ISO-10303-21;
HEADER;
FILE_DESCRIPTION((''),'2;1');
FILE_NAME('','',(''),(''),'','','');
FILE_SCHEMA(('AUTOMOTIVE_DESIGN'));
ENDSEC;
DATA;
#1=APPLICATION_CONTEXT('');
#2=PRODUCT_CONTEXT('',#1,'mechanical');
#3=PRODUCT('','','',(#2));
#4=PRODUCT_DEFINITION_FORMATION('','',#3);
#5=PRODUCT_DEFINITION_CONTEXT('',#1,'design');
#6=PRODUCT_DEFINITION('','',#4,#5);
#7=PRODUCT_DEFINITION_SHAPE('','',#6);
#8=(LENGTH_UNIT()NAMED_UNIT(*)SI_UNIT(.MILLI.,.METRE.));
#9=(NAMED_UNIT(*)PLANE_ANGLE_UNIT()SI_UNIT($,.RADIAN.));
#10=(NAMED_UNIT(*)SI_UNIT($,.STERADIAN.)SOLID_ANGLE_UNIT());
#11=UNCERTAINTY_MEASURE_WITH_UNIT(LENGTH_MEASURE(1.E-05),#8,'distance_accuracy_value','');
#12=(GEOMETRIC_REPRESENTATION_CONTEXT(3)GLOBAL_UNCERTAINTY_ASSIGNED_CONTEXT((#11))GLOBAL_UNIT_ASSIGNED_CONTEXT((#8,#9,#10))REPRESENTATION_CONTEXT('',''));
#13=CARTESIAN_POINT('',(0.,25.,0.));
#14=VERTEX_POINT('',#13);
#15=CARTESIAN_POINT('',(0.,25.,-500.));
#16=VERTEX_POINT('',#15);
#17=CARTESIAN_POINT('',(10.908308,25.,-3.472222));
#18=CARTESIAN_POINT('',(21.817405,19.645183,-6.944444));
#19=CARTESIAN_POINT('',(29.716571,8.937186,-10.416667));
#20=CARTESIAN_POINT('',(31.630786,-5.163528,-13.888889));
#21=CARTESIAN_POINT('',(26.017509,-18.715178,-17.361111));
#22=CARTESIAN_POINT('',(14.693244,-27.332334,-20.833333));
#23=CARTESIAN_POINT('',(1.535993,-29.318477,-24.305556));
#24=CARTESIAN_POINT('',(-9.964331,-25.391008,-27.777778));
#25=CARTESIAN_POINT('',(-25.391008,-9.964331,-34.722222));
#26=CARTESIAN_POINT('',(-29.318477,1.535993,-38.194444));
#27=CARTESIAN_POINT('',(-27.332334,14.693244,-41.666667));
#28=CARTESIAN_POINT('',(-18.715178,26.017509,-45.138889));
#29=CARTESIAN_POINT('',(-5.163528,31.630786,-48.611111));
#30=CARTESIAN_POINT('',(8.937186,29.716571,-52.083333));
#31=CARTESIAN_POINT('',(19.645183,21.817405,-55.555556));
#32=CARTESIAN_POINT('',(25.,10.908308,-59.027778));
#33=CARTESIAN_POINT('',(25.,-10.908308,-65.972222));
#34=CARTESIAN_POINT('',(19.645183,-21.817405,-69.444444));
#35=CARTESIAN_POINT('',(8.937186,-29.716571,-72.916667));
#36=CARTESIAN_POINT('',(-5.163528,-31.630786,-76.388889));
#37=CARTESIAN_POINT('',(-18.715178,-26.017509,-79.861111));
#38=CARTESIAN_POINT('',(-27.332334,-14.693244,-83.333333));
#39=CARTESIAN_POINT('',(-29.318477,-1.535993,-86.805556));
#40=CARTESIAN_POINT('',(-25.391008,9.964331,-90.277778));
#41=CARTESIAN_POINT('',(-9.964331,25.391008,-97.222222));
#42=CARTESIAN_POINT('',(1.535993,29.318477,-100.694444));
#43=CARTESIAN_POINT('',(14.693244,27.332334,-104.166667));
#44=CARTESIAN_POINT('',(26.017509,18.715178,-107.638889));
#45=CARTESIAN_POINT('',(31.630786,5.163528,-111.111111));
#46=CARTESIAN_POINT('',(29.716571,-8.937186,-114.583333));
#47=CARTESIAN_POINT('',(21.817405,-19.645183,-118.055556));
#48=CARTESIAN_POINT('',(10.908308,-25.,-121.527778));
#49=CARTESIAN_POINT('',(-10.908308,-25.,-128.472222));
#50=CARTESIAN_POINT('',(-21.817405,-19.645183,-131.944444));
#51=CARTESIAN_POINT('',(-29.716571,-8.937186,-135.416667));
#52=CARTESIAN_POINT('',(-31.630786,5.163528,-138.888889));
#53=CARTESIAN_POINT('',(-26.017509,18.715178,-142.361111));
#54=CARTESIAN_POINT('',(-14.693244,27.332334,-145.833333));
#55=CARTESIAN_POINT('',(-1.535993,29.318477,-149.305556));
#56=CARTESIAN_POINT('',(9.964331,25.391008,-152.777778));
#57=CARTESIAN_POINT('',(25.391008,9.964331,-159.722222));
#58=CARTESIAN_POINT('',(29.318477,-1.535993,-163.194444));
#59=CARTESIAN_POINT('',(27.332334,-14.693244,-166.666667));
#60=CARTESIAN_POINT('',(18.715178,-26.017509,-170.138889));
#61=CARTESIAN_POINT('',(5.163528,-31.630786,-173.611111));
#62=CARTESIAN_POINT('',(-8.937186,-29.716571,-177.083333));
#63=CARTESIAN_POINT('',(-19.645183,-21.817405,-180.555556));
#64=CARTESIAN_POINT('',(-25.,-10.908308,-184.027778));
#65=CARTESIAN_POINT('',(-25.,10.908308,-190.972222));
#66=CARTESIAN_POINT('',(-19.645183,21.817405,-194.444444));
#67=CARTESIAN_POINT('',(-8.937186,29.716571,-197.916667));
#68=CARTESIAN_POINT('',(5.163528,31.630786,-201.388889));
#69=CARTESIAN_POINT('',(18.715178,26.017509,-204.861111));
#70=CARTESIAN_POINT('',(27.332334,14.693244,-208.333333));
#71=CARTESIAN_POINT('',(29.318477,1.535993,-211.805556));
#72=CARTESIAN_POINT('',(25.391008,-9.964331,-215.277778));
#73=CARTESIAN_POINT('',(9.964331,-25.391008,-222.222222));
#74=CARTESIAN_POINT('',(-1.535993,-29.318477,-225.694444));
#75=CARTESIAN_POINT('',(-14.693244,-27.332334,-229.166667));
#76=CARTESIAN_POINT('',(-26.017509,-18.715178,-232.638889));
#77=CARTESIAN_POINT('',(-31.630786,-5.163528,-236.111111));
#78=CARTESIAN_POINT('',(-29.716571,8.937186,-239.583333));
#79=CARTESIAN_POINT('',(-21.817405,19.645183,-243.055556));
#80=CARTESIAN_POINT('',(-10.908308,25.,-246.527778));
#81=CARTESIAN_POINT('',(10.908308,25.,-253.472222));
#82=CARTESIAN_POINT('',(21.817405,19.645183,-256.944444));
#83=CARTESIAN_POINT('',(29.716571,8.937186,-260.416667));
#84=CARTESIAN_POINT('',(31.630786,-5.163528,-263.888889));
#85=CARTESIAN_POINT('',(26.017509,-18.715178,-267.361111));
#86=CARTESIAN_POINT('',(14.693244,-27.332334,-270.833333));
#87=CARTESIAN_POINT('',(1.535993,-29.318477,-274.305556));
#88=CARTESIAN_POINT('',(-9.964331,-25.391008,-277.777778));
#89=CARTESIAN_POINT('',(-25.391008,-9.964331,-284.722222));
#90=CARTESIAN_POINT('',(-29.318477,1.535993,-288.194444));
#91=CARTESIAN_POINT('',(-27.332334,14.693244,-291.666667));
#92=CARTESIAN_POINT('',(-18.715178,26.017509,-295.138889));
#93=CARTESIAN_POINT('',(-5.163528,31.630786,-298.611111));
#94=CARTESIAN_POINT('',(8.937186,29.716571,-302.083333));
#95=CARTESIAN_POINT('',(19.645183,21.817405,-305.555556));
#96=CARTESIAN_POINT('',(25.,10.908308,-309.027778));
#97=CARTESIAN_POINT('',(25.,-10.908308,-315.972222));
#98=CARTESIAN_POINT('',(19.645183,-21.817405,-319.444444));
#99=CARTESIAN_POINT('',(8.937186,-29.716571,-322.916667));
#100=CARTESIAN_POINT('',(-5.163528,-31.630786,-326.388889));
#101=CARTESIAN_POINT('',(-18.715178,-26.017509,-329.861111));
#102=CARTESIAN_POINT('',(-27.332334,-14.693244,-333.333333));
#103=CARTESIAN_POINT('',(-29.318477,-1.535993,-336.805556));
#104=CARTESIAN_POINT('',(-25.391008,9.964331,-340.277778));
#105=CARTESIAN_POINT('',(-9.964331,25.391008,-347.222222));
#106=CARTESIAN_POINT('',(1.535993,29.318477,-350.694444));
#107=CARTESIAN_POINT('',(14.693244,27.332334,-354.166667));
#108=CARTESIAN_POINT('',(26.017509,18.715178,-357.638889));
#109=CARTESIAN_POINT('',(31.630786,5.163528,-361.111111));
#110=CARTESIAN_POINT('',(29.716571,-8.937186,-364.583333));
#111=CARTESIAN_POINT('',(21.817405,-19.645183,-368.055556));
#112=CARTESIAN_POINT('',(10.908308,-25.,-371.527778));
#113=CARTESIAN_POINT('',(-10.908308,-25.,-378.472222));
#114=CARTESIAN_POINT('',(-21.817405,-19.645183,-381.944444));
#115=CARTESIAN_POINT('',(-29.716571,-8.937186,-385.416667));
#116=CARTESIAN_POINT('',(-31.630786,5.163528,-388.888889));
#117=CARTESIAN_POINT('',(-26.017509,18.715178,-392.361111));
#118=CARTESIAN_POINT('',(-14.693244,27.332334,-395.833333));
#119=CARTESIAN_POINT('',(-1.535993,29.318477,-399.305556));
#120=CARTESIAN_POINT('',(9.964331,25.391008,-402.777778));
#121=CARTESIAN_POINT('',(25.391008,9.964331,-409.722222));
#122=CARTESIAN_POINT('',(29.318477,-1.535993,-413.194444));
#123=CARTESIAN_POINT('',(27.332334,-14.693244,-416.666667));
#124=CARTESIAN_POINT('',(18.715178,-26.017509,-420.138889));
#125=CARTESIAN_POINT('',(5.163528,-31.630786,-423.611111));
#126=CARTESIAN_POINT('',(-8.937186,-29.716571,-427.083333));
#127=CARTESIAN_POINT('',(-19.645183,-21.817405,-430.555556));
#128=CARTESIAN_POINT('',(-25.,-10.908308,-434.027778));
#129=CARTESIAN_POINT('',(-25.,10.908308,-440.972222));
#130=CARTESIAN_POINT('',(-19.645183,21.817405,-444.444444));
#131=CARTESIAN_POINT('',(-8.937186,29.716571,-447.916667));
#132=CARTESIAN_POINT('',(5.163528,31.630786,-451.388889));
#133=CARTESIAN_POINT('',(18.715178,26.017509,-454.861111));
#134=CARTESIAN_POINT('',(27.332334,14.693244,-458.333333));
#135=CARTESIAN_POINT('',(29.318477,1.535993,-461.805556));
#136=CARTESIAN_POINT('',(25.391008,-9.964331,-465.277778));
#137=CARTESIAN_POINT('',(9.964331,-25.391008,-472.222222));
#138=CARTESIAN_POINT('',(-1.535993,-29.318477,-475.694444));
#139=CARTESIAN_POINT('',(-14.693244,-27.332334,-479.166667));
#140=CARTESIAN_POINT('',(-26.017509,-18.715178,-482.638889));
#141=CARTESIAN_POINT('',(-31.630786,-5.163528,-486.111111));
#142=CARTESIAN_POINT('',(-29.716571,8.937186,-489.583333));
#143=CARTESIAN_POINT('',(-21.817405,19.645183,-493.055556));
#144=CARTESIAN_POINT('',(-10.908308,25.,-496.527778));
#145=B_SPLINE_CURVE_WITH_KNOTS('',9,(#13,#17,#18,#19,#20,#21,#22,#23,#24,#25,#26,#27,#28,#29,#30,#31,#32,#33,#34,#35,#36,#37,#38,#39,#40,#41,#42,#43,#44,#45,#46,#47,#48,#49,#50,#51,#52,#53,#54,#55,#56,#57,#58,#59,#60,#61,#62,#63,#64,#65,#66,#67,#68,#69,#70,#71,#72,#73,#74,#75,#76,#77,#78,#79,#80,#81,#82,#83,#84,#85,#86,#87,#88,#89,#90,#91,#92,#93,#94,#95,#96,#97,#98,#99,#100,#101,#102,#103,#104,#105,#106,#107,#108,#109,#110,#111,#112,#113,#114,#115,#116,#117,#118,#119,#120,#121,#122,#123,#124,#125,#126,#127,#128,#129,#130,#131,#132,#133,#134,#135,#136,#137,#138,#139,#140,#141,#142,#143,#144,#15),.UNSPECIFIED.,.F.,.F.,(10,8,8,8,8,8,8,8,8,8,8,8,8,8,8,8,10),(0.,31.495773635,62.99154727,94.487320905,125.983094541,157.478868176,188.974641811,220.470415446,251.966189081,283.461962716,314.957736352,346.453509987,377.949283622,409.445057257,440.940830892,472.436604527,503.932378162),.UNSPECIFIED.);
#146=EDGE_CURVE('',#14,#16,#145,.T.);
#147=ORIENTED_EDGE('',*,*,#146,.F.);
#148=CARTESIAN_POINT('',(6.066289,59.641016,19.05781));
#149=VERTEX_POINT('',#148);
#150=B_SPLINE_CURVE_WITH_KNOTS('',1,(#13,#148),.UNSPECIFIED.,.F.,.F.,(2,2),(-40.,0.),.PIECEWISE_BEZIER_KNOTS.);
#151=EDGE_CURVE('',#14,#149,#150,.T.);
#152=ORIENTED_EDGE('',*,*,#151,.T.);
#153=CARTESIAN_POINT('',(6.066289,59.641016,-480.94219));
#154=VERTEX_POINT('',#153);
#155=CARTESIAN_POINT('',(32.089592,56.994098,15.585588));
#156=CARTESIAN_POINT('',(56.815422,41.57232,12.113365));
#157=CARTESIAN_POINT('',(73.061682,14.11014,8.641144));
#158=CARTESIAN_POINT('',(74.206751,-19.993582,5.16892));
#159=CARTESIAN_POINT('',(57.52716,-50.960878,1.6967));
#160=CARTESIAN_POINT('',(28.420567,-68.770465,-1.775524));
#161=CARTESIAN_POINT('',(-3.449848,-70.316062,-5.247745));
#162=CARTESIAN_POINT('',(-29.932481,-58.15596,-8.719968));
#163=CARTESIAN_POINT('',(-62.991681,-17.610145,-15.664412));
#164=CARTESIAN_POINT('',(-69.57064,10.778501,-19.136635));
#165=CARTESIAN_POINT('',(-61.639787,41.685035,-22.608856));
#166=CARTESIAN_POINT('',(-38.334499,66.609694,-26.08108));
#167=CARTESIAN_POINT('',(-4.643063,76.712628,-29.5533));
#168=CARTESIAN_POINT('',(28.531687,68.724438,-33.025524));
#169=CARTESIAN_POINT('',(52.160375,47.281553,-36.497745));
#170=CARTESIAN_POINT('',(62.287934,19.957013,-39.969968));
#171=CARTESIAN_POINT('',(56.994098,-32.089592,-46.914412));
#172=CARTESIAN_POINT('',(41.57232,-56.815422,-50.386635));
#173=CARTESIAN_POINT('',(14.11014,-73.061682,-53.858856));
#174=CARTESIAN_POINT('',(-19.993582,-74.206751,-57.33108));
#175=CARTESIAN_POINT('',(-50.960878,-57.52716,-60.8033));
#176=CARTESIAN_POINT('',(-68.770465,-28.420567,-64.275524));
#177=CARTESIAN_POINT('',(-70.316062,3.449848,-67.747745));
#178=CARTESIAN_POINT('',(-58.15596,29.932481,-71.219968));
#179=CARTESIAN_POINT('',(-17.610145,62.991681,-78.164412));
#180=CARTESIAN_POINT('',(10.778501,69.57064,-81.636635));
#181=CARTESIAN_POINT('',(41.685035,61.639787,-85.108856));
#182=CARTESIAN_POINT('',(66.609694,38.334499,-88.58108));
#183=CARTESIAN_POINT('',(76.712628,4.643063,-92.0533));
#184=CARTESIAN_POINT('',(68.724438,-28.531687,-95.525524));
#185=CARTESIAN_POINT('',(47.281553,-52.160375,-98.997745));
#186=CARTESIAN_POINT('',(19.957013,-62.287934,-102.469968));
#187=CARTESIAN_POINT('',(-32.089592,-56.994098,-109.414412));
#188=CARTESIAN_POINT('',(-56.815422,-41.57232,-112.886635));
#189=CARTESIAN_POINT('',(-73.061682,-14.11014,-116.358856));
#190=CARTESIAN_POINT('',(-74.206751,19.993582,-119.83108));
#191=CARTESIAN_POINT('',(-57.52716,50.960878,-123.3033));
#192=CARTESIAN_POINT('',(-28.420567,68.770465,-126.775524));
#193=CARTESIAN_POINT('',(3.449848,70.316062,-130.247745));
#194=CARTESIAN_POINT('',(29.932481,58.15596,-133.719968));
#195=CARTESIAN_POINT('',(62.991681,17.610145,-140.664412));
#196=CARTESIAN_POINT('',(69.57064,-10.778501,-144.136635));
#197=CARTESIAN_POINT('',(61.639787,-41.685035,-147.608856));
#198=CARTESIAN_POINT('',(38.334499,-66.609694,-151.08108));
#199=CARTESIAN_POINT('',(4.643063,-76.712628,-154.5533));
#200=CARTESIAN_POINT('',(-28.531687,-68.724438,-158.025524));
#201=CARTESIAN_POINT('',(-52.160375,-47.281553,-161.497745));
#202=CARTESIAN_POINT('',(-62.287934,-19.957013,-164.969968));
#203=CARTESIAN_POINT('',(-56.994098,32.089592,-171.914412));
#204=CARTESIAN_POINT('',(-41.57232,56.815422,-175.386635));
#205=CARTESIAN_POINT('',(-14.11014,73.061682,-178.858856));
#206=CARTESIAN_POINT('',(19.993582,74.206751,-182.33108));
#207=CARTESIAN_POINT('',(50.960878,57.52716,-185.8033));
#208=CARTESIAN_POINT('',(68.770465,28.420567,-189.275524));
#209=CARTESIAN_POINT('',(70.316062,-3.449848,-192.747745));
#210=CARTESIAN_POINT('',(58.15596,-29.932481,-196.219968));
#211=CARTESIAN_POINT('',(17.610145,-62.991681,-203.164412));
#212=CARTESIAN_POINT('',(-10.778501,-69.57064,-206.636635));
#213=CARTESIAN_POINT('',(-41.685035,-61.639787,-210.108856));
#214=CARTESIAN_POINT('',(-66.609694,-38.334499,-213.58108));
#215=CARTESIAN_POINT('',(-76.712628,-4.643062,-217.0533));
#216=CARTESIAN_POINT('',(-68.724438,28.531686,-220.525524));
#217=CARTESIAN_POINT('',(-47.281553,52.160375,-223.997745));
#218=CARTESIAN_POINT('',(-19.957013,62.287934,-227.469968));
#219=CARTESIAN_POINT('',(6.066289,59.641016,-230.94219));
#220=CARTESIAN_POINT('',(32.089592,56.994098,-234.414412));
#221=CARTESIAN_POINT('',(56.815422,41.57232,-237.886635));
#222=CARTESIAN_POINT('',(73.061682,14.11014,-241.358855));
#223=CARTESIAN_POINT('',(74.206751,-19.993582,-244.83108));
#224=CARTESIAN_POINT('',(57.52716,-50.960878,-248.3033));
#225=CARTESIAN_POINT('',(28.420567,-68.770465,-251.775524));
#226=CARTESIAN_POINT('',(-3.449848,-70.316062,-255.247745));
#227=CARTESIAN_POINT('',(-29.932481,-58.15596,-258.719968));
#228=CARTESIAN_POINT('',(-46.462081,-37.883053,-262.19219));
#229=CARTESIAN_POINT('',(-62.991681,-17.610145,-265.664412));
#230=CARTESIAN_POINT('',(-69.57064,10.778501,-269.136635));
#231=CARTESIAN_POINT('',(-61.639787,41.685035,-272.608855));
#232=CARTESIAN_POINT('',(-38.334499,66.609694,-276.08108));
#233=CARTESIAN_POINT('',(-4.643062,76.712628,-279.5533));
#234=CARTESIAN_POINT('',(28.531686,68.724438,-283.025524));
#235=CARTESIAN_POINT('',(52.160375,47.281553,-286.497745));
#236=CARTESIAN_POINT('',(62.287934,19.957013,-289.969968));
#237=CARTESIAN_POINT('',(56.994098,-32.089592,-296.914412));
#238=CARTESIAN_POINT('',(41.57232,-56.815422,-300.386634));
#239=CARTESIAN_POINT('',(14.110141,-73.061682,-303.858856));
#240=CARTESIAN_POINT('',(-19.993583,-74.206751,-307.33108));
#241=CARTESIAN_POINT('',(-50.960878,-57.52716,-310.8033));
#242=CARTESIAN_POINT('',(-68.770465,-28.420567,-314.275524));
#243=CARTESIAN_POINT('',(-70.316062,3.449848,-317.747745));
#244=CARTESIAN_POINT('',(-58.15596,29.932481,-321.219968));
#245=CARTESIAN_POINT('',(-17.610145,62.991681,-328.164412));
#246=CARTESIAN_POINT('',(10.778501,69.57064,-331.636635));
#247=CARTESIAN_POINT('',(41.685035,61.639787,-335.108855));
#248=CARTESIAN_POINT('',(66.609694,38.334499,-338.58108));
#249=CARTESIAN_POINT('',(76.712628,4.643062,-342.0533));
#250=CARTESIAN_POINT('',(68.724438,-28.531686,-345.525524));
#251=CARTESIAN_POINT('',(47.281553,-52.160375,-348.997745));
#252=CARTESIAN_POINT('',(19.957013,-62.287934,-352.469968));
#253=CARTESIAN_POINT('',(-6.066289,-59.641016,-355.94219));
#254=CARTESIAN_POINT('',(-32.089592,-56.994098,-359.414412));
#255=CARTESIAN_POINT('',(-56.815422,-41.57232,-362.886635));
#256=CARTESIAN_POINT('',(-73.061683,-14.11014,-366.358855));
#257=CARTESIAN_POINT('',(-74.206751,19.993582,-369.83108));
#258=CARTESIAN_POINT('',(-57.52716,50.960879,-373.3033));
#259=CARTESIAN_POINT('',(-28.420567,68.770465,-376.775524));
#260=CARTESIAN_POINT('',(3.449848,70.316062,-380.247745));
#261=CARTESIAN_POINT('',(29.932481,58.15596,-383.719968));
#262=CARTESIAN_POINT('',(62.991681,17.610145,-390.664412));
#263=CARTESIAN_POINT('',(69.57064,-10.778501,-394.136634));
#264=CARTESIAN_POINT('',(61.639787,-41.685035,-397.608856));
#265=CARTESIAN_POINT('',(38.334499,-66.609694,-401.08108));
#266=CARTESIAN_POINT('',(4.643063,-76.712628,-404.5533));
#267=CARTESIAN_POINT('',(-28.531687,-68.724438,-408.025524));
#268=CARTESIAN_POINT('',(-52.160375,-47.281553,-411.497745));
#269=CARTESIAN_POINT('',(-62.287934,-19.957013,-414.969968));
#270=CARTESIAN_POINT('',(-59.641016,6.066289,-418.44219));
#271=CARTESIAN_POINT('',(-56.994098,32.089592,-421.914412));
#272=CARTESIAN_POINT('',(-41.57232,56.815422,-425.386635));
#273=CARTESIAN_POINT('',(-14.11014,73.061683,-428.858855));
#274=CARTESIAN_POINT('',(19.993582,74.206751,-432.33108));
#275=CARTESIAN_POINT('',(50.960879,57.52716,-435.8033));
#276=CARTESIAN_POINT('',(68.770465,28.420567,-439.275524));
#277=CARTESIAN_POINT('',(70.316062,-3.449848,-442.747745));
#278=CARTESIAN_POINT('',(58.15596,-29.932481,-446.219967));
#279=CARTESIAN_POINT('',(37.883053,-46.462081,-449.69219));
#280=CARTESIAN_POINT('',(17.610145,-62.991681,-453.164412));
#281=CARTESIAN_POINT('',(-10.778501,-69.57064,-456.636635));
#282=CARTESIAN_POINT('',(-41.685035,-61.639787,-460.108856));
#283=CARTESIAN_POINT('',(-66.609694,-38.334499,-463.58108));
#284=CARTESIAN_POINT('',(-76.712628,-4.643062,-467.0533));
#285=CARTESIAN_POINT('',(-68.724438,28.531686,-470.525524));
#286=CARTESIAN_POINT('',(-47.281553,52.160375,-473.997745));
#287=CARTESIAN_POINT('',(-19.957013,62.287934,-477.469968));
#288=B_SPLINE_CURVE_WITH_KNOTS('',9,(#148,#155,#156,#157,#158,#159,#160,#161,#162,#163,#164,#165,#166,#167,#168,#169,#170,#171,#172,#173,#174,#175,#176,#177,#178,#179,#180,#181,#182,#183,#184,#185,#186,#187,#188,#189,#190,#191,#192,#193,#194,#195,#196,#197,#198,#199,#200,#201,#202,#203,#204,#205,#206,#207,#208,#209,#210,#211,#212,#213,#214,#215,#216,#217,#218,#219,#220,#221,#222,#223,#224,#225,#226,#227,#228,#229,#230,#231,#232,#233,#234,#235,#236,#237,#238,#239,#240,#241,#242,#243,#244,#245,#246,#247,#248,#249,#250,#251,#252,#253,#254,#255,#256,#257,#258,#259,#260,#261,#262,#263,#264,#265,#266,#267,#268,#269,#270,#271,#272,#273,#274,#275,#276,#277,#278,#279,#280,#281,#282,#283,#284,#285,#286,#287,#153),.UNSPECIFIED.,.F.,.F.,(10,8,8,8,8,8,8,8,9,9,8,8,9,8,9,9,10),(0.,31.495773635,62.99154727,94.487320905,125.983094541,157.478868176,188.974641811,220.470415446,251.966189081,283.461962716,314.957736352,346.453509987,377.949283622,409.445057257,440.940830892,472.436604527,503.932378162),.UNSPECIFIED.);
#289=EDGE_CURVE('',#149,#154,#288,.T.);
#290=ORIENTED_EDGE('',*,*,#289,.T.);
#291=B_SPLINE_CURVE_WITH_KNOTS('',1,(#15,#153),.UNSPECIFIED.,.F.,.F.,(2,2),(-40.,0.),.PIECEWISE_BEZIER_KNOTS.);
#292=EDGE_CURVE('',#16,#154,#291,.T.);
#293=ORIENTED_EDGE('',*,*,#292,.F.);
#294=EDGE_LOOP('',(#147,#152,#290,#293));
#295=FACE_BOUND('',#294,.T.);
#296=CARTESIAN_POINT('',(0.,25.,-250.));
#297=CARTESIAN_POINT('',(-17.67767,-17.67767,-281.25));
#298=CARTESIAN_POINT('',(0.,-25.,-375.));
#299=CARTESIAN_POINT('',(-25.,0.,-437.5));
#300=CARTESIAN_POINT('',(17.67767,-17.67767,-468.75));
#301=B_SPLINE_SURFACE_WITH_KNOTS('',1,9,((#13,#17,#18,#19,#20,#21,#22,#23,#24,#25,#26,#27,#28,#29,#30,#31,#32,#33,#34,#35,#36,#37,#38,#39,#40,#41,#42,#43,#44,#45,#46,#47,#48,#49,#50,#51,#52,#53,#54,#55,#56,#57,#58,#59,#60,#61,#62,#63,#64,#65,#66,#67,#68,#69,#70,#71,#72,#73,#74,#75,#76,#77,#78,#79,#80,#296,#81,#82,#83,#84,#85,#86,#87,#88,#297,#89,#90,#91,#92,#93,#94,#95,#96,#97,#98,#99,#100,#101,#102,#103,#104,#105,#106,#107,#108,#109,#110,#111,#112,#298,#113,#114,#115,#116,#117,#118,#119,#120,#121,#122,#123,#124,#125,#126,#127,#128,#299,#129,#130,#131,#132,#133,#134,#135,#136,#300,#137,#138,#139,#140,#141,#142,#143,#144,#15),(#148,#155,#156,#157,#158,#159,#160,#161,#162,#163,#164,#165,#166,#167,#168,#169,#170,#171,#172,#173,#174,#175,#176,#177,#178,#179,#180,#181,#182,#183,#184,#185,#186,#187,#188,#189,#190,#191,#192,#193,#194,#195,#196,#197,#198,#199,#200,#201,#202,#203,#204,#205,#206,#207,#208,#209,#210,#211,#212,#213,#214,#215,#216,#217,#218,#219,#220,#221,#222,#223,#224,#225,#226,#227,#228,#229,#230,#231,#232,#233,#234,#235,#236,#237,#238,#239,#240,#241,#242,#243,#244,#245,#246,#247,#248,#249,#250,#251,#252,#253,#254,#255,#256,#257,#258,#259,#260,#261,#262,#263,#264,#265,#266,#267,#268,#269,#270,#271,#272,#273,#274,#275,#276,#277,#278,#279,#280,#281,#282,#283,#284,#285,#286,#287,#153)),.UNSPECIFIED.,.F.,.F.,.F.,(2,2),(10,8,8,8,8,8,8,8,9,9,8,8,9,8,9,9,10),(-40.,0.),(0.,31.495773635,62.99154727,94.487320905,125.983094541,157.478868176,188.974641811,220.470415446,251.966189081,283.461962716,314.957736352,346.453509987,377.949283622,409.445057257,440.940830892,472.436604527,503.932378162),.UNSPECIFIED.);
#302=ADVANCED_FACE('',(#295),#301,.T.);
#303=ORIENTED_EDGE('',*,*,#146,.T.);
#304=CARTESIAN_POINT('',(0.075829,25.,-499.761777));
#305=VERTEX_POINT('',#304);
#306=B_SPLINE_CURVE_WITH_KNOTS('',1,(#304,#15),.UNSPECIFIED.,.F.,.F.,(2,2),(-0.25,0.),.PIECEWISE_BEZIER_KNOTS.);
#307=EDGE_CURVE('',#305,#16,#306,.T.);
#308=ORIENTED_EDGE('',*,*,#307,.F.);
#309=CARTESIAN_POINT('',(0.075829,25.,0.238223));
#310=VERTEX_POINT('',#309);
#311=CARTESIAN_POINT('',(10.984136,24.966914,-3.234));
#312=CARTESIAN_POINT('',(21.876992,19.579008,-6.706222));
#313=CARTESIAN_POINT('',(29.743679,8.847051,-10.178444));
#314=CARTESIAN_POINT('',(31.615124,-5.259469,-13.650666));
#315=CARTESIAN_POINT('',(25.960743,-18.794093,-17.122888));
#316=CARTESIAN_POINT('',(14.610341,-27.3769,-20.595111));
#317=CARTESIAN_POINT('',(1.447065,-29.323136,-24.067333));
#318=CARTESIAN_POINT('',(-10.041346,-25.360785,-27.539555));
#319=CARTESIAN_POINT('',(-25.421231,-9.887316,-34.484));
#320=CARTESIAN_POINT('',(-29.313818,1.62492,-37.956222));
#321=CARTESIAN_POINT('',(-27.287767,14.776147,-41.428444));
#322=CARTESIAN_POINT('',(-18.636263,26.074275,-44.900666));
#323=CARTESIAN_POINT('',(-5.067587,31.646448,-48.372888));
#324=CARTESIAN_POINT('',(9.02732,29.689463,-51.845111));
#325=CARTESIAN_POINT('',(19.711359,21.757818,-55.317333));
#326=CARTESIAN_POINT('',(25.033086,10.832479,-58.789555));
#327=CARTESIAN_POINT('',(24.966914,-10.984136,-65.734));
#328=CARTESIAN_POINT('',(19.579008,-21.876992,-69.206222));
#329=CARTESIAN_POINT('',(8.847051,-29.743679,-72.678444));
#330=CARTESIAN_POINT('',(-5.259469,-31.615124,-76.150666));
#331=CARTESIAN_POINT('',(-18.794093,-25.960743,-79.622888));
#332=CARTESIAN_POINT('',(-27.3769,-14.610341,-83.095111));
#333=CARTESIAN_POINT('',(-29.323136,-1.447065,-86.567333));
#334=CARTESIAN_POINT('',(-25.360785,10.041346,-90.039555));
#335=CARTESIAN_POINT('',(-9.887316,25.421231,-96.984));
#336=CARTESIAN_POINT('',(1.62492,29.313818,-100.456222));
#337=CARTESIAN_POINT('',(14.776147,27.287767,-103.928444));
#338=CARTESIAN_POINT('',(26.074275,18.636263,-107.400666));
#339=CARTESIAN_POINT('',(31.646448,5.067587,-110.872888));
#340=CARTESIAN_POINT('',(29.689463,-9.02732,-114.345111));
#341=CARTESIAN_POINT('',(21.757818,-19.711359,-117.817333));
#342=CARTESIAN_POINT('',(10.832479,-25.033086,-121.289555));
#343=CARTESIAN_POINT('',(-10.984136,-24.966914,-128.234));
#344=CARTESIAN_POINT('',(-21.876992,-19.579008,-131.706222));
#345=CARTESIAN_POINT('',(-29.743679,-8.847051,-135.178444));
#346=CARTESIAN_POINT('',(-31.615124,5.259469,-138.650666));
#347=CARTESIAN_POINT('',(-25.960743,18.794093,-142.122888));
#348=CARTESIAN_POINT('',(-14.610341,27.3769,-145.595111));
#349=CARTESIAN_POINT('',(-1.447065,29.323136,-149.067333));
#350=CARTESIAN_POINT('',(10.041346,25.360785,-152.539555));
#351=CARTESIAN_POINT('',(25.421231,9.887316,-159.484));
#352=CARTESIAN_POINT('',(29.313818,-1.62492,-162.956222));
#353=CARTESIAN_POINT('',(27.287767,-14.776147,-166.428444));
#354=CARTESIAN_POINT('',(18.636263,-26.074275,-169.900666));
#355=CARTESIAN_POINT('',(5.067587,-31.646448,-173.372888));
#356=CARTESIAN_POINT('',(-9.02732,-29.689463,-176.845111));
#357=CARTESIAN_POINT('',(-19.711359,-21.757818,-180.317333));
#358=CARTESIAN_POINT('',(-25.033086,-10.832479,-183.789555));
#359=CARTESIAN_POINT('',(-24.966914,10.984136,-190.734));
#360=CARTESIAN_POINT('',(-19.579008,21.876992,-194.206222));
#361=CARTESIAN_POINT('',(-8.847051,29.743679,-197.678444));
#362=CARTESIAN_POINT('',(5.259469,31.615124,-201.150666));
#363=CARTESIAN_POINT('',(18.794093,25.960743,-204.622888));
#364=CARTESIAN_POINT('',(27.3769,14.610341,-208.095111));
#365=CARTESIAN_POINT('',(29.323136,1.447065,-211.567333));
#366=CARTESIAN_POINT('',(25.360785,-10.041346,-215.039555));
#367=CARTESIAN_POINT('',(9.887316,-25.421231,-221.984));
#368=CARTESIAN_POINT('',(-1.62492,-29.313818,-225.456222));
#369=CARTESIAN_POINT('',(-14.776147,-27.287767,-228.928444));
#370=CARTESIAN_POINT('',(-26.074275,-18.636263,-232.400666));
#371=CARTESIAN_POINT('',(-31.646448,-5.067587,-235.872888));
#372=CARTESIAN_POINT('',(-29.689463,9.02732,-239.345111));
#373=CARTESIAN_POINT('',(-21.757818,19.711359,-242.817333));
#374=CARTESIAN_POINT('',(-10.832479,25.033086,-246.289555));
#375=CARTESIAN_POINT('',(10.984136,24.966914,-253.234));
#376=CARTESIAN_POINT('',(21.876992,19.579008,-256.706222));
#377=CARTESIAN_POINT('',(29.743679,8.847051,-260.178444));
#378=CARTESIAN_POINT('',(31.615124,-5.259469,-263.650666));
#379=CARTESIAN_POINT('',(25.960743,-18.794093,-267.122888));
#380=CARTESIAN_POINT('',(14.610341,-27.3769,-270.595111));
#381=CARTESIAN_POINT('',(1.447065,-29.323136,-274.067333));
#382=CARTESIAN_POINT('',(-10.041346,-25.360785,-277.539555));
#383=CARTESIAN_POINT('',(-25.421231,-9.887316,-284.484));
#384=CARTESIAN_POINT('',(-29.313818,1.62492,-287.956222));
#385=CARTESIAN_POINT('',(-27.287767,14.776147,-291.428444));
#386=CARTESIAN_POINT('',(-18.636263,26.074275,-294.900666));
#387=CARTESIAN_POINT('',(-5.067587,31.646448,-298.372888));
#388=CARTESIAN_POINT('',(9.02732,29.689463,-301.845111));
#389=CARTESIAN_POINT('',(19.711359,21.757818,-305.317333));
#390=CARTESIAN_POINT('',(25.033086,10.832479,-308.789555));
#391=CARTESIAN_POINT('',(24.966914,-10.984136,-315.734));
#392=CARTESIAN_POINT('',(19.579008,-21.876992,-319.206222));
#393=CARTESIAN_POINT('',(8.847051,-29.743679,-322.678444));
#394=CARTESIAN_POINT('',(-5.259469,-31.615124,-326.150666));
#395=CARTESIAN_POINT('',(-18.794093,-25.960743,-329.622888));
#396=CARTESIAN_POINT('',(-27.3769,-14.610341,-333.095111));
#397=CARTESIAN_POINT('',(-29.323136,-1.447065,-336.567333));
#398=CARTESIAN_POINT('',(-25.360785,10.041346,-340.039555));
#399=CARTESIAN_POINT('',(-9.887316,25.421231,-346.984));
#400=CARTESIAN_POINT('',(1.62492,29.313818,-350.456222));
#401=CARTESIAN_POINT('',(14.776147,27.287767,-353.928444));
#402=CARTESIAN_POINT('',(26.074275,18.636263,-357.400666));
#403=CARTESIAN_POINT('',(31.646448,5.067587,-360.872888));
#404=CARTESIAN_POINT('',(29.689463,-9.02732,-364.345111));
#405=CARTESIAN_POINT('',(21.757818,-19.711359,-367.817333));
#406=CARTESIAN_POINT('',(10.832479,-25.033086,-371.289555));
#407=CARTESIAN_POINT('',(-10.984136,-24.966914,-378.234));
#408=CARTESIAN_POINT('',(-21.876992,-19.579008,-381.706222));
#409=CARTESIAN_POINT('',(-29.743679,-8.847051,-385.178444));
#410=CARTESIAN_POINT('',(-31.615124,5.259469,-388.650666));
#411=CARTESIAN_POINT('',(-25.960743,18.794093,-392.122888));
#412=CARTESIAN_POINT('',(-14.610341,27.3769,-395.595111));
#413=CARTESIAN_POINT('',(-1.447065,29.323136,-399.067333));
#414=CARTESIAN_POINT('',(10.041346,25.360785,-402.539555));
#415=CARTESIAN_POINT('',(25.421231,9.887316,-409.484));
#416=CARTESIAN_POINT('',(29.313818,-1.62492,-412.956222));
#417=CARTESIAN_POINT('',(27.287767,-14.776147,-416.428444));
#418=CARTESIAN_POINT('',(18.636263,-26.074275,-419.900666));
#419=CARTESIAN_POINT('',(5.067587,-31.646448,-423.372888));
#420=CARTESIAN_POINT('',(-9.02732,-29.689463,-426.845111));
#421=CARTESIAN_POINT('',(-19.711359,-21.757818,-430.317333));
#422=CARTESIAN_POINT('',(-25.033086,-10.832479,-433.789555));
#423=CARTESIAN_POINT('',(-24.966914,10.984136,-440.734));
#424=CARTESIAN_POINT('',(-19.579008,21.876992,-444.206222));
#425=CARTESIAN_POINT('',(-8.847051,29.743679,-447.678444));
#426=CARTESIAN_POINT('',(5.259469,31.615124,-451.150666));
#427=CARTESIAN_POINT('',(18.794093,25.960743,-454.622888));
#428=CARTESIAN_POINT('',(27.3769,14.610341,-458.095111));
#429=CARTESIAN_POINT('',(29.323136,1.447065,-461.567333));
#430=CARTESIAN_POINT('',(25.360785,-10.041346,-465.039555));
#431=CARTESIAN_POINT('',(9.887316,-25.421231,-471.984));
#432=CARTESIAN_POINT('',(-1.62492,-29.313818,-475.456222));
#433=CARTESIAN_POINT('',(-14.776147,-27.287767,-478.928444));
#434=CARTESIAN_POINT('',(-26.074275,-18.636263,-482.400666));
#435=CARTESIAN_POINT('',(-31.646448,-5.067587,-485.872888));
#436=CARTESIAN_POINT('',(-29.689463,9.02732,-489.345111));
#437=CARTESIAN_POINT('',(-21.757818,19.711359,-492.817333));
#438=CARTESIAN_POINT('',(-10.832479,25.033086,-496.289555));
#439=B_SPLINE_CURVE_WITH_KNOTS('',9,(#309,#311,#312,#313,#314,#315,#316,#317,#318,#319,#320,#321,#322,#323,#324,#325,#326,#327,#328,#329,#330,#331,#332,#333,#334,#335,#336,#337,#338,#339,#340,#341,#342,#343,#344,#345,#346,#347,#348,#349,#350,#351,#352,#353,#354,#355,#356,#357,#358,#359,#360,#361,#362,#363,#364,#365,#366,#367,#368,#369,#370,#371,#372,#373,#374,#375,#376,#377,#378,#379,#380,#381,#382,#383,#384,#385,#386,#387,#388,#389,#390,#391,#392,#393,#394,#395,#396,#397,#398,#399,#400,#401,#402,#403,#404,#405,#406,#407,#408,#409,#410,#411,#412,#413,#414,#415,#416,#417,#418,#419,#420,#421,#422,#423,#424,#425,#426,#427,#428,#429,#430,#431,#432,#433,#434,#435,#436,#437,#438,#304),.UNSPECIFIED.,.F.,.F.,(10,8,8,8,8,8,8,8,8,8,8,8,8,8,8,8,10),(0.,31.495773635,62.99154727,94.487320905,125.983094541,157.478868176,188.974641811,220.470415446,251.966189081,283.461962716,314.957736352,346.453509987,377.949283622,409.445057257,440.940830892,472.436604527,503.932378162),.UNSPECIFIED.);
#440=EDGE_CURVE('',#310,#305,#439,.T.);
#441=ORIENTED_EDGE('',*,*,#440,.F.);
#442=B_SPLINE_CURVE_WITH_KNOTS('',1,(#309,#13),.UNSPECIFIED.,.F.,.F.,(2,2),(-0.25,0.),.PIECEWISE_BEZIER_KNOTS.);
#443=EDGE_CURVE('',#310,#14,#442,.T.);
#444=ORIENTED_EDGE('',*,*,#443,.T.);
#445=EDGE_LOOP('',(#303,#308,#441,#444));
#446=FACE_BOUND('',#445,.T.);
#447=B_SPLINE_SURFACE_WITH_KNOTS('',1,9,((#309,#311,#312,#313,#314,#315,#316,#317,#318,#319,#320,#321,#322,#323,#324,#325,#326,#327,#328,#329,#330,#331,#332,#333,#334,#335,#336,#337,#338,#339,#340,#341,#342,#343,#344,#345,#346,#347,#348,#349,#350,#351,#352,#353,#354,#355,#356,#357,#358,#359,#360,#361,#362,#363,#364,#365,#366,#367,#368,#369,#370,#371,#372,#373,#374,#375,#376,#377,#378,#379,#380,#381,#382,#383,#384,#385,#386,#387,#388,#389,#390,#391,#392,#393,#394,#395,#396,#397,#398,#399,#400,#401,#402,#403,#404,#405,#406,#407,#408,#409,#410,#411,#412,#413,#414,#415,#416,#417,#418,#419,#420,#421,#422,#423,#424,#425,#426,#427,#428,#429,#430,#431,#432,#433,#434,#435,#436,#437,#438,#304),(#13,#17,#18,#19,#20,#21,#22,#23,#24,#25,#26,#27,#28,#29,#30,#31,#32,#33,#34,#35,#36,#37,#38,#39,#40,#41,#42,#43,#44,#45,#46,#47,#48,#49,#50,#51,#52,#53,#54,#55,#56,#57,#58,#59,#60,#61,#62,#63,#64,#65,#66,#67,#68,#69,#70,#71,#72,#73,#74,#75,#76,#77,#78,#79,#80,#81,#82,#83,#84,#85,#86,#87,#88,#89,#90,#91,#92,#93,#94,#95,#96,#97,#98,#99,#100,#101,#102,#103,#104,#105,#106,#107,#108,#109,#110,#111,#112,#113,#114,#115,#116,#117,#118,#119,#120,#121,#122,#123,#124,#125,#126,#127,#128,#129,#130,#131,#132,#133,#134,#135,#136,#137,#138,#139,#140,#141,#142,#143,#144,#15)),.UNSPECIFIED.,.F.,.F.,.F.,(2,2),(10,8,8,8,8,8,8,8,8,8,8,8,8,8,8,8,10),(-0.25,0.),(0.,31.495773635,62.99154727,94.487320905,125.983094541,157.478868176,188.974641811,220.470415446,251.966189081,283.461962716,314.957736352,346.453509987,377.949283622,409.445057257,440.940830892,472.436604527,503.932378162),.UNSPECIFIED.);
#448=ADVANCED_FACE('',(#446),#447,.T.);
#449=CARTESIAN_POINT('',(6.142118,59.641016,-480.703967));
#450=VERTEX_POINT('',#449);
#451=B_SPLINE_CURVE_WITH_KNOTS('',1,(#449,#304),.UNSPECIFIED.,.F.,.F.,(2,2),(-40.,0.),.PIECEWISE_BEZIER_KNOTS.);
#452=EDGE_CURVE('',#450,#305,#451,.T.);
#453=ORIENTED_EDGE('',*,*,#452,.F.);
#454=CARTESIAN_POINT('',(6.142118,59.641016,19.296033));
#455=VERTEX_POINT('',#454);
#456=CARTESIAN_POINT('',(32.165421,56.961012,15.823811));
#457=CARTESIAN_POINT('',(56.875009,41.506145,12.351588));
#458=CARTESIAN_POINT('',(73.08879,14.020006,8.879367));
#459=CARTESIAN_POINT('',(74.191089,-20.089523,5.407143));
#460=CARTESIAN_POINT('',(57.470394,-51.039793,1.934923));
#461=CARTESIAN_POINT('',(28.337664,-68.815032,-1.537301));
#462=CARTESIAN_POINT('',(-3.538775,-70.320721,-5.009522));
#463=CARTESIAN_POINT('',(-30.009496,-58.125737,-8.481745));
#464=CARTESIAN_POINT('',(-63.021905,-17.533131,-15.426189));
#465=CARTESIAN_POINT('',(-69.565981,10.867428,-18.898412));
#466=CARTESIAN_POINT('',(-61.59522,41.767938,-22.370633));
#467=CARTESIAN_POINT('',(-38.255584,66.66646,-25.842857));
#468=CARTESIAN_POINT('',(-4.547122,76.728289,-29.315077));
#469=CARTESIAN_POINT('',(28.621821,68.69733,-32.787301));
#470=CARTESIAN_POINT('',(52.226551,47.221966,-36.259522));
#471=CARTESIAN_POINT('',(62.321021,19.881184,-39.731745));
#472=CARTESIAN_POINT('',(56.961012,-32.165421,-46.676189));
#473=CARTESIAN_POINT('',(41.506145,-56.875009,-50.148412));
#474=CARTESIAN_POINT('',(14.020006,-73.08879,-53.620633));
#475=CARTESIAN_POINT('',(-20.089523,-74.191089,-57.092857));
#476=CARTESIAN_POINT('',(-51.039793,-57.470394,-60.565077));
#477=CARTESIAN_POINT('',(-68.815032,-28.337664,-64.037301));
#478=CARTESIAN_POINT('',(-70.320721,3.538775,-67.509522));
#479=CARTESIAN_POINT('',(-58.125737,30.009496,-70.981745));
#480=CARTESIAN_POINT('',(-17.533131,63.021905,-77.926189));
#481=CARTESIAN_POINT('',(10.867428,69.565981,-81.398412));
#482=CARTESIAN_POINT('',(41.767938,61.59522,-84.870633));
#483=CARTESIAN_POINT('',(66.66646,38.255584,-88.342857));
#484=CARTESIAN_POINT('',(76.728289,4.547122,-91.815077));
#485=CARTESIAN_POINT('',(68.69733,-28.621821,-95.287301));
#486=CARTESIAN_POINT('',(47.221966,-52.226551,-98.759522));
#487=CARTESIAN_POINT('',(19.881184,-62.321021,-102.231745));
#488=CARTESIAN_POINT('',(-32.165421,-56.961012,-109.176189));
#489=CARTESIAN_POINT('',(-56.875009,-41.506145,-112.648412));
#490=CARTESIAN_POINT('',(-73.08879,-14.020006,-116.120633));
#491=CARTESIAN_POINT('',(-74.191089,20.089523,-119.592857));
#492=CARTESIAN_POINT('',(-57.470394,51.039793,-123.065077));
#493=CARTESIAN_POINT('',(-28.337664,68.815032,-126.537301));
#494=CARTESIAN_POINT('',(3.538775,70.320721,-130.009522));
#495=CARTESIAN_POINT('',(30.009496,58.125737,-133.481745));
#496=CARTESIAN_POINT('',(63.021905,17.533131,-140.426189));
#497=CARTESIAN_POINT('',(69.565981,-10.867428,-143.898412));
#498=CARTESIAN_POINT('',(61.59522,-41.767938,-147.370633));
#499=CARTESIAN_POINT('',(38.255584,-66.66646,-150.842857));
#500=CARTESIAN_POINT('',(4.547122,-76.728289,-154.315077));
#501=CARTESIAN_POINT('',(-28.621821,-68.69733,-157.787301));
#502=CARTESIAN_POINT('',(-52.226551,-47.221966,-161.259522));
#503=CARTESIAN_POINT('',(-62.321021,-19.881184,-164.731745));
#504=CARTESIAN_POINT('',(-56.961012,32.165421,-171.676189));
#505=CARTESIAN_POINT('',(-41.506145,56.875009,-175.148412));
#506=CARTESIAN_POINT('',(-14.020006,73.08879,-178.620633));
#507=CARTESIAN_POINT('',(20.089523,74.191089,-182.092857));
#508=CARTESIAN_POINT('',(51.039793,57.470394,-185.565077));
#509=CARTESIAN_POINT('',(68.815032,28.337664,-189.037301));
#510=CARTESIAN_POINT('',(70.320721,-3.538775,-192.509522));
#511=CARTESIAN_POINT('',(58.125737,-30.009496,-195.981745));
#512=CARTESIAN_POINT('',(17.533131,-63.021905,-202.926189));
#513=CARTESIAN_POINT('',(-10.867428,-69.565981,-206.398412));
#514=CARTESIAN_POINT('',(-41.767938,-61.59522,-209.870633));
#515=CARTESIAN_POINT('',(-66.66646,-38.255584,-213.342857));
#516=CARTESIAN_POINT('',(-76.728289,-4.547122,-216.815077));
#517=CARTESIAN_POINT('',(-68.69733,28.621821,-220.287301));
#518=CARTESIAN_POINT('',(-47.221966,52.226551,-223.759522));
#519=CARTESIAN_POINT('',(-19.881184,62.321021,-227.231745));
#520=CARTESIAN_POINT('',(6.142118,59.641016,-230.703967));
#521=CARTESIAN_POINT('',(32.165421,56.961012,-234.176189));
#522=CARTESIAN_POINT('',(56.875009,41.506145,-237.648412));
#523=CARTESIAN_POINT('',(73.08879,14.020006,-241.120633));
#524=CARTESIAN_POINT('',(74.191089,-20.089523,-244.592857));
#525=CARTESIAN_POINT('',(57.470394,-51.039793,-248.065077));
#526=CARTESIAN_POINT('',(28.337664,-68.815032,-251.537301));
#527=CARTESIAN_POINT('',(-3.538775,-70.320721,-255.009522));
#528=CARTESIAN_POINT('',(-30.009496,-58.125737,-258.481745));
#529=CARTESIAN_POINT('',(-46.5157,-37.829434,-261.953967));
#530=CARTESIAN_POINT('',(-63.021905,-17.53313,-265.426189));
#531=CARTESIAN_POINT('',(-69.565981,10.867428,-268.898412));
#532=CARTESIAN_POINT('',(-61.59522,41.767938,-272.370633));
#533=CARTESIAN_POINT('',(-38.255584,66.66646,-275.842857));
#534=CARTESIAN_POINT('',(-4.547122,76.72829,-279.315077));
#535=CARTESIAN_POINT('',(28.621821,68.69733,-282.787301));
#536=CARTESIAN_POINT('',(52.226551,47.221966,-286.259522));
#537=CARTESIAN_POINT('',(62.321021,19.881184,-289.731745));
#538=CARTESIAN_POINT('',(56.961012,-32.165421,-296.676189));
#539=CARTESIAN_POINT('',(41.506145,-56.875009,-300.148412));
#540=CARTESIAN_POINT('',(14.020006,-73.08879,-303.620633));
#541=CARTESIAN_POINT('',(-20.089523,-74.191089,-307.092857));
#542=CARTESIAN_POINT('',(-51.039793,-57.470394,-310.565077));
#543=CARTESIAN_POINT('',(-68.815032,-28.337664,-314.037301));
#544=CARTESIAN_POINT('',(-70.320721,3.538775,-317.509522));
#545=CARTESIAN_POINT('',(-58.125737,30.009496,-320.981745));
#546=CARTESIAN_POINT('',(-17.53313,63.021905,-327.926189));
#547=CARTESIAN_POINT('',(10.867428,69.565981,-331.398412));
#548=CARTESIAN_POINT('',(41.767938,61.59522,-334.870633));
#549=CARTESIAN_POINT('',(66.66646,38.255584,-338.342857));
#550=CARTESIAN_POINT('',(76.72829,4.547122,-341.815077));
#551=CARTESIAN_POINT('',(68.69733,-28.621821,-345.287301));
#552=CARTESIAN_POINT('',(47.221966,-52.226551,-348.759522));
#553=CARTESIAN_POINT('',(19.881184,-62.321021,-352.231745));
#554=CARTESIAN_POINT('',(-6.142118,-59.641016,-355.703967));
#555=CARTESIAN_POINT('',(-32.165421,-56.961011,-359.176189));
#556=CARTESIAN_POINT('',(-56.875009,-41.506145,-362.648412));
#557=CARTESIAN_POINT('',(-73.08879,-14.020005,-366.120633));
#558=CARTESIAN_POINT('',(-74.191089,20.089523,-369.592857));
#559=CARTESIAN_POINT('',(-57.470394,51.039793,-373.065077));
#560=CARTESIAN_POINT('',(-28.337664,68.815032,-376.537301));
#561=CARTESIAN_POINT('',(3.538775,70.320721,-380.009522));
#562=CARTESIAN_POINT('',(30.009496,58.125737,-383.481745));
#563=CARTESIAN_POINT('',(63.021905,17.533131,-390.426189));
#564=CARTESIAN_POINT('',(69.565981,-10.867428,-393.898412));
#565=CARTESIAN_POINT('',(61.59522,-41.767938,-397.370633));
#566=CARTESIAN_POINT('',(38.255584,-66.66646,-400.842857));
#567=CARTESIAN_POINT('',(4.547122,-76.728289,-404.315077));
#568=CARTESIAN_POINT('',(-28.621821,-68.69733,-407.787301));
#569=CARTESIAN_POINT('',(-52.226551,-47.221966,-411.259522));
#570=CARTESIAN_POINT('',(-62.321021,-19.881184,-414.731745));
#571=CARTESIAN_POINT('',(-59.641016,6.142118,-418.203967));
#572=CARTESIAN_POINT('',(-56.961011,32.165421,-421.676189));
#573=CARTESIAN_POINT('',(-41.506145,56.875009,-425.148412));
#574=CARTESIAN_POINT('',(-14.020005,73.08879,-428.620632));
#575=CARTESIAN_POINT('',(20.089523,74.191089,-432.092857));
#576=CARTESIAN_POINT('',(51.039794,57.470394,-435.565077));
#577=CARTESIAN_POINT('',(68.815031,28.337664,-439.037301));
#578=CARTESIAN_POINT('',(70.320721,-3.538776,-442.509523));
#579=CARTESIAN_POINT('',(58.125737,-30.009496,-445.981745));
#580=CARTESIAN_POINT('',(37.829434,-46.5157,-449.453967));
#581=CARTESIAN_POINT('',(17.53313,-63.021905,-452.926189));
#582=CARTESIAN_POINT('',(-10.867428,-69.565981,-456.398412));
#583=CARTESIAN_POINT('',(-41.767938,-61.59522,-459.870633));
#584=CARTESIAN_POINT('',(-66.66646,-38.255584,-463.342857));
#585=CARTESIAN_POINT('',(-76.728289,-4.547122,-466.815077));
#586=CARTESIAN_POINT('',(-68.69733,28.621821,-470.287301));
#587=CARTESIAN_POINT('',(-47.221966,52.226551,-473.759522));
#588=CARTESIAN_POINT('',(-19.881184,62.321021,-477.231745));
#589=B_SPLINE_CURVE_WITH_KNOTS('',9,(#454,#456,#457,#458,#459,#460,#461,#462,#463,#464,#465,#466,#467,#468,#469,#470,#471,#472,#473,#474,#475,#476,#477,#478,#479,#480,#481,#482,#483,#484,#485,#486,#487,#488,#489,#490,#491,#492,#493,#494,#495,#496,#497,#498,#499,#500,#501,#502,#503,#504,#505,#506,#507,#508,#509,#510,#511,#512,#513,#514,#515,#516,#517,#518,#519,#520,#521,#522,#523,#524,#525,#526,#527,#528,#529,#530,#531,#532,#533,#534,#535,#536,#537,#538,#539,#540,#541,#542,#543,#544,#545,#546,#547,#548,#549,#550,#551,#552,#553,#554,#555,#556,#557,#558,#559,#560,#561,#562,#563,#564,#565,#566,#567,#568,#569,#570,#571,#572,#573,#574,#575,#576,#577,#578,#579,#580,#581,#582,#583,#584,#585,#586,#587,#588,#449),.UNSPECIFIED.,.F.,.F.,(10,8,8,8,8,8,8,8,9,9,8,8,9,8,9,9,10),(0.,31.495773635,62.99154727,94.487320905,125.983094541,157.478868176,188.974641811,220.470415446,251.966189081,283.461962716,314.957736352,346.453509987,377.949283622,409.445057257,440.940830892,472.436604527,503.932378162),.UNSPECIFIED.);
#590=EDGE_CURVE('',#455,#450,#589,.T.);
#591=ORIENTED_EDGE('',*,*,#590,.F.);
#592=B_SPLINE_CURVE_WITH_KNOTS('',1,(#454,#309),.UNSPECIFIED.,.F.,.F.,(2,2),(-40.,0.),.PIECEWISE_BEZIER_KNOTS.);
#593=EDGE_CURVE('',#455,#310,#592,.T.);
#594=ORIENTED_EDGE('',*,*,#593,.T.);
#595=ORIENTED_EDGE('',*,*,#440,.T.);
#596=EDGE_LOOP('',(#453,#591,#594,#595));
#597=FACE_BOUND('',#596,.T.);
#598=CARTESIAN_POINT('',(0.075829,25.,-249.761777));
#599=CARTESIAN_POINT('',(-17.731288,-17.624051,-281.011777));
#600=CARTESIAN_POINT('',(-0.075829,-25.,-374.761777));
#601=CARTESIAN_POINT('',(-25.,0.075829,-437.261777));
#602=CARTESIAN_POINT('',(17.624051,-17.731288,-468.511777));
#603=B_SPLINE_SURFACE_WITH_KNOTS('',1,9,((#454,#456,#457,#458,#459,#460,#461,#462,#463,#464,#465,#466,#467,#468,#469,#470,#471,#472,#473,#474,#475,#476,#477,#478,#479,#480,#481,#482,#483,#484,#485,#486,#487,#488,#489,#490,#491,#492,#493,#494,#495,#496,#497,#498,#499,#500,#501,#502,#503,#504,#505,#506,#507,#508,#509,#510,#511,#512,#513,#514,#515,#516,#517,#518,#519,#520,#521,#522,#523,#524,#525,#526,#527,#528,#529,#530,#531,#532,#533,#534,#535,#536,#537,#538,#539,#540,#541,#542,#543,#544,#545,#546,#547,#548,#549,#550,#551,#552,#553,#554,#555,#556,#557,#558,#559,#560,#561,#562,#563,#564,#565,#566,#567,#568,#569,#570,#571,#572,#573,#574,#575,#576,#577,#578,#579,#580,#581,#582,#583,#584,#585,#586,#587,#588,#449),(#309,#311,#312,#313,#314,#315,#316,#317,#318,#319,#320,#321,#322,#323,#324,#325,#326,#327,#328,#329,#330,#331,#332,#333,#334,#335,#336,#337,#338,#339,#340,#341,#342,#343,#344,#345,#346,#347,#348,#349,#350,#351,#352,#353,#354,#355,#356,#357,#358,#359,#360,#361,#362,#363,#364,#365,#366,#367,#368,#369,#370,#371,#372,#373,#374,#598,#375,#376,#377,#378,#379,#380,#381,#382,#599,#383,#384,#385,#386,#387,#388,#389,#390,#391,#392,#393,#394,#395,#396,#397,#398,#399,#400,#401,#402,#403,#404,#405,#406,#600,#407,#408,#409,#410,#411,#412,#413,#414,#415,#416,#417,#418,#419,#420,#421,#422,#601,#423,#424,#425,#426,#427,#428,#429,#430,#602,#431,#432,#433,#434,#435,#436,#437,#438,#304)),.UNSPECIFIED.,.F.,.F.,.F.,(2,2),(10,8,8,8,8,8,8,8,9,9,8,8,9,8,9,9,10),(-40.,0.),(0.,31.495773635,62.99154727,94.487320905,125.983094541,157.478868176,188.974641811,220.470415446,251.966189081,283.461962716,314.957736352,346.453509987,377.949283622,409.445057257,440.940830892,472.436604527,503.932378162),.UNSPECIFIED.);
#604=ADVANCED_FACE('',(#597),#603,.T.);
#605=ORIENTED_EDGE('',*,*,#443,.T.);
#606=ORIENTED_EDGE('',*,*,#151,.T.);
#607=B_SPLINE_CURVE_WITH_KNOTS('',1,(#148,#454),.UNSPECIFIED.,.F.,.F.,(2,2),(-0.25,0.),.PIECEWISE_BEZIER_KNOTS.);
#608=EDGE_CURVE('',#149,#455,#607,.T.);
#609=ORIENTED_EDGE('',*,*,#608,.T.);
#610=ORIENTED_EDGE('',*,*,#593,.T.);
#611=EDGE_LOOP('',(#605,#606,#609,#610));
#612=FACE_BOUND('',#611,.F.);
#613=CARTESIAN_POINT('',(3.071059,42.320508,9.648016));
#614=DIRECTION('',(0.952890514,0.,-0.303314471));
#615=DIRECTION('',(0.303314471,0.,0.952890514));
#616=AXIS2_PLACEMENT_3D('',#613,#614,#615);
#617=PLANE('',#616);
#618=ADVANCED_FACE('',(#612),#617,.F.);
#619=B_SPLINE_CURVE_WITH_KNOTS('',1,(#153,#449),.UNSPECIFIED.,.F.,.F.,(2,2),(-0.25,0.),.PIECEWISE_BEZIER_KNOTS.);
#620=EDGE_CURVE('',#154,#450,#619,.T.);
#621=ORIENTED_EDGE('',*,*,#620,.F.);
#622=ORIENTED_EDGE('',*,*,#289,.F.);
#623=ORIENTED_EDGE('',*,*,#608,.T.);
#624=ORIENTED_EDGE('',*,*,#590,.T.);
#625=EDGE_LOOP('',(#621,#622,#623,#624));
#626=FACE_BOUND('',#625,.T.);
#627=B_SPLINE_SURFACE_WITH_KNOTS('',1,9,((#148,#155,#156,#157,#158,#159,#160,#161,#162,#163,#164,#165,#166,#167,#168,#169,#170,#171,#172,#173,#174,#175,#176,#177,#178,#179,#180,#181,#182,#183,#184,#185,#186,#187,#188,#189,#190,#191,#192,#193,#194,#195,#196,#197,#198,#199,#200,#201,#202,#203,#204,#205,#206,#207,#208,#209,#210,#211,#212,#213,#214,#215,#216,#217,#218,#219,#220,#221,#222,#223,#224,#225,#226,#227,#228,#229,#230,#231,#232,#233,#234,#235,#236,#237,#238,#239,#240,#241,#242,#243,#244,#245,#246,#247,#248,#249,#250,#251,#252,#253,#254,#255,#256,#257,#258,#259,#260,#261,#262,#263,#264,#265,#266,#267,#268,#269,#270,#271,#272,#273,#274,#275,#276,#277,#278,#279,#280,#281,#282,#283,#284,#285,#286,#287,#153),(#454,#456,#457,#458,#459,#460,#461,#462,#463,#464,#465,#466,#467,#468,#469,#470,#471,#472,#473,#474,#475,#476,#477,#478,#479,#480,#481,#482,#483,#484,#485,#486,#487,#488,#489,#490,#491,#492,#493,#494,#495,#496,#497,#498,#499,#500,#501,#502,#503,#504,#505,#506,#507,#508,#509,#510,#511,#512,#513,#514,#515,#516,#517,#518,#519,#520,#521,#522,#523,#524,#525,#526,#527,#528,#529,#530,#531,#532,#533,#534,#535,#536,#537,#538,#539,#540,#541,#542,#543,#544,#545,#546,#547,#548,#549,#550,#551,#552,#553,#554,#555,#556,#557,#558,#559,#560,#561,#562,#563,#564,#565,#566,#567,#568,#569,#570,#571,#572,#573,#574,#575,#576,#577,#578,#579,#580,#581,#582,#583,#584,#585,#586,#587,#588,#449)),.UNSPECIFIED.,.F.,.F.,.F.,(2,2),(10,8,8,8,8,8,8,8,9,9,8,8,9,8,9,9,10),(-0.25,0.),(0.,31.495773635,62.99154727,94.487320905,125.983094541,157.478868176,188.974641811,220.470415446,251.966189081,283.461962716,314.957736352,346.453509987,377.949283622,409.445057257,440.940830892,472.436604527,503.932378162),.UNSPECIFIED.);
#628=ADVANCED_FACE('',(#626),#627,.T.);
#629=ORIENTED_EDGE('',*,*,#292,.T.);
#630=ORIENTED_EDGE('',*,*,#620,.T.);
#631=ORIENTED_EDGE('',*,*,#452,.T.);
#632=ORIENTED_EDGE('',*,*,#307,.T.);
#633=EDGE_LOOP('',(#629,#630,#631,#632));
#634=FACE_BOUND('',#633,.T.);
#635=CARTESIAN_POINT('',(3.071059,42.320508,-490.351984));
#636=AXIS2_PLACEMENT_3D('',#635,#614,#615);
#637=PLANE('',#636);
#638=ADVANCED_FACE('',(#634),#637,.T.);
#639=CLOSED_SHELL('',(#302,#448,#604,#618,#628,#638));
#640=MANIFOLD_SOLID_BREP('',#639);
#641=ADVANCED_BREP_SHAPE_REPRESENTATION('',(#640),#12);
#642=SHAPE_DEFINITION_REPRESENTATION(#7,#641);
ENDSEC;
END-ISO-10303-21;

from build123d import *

# Parameters (mm, degrees)
AUSTRAGUNG1_PITCH       = 50
AUSTRAGUNG1_HEIGHT      = 500
AUSTRAGUNG1_RADIUS      = 25
AUSTRAGUNG1_START_ANGLE = 90


with BuildPart() as part:
    # Austragung1: sweep along a helix
    with BuildLine() as austragung1_path:
        add(Helix(AUSTRAGUNG1_PITCH, AUSTRAGUNG1_HEIGHT, AUSTRAGUNG1_RADIUS, center=(0, 0, 0), direction=(0, 0, -1), mode=Mode.PRIVATE).rotate(Axis((0, 0, 0), (0, 0, -1)), AUSTRAGUNG1_START_ANGLE))
    # Skizze2 → Austragung1 (sweep)
    with BuildSketch(Plane(origin=(0, 25, 0), x_dir=(-0.303314471, 0, -0.952890514), z_dir=(0.952890514, 0, -0.303314471))):
        Polygon((0, 0), (-0.25, 0), (-20.25, 34.641016151), (-20, 34.641016151), align=None)
    sweep(path=austragung1_path.line, is_frenet=True)


solid = part.part
